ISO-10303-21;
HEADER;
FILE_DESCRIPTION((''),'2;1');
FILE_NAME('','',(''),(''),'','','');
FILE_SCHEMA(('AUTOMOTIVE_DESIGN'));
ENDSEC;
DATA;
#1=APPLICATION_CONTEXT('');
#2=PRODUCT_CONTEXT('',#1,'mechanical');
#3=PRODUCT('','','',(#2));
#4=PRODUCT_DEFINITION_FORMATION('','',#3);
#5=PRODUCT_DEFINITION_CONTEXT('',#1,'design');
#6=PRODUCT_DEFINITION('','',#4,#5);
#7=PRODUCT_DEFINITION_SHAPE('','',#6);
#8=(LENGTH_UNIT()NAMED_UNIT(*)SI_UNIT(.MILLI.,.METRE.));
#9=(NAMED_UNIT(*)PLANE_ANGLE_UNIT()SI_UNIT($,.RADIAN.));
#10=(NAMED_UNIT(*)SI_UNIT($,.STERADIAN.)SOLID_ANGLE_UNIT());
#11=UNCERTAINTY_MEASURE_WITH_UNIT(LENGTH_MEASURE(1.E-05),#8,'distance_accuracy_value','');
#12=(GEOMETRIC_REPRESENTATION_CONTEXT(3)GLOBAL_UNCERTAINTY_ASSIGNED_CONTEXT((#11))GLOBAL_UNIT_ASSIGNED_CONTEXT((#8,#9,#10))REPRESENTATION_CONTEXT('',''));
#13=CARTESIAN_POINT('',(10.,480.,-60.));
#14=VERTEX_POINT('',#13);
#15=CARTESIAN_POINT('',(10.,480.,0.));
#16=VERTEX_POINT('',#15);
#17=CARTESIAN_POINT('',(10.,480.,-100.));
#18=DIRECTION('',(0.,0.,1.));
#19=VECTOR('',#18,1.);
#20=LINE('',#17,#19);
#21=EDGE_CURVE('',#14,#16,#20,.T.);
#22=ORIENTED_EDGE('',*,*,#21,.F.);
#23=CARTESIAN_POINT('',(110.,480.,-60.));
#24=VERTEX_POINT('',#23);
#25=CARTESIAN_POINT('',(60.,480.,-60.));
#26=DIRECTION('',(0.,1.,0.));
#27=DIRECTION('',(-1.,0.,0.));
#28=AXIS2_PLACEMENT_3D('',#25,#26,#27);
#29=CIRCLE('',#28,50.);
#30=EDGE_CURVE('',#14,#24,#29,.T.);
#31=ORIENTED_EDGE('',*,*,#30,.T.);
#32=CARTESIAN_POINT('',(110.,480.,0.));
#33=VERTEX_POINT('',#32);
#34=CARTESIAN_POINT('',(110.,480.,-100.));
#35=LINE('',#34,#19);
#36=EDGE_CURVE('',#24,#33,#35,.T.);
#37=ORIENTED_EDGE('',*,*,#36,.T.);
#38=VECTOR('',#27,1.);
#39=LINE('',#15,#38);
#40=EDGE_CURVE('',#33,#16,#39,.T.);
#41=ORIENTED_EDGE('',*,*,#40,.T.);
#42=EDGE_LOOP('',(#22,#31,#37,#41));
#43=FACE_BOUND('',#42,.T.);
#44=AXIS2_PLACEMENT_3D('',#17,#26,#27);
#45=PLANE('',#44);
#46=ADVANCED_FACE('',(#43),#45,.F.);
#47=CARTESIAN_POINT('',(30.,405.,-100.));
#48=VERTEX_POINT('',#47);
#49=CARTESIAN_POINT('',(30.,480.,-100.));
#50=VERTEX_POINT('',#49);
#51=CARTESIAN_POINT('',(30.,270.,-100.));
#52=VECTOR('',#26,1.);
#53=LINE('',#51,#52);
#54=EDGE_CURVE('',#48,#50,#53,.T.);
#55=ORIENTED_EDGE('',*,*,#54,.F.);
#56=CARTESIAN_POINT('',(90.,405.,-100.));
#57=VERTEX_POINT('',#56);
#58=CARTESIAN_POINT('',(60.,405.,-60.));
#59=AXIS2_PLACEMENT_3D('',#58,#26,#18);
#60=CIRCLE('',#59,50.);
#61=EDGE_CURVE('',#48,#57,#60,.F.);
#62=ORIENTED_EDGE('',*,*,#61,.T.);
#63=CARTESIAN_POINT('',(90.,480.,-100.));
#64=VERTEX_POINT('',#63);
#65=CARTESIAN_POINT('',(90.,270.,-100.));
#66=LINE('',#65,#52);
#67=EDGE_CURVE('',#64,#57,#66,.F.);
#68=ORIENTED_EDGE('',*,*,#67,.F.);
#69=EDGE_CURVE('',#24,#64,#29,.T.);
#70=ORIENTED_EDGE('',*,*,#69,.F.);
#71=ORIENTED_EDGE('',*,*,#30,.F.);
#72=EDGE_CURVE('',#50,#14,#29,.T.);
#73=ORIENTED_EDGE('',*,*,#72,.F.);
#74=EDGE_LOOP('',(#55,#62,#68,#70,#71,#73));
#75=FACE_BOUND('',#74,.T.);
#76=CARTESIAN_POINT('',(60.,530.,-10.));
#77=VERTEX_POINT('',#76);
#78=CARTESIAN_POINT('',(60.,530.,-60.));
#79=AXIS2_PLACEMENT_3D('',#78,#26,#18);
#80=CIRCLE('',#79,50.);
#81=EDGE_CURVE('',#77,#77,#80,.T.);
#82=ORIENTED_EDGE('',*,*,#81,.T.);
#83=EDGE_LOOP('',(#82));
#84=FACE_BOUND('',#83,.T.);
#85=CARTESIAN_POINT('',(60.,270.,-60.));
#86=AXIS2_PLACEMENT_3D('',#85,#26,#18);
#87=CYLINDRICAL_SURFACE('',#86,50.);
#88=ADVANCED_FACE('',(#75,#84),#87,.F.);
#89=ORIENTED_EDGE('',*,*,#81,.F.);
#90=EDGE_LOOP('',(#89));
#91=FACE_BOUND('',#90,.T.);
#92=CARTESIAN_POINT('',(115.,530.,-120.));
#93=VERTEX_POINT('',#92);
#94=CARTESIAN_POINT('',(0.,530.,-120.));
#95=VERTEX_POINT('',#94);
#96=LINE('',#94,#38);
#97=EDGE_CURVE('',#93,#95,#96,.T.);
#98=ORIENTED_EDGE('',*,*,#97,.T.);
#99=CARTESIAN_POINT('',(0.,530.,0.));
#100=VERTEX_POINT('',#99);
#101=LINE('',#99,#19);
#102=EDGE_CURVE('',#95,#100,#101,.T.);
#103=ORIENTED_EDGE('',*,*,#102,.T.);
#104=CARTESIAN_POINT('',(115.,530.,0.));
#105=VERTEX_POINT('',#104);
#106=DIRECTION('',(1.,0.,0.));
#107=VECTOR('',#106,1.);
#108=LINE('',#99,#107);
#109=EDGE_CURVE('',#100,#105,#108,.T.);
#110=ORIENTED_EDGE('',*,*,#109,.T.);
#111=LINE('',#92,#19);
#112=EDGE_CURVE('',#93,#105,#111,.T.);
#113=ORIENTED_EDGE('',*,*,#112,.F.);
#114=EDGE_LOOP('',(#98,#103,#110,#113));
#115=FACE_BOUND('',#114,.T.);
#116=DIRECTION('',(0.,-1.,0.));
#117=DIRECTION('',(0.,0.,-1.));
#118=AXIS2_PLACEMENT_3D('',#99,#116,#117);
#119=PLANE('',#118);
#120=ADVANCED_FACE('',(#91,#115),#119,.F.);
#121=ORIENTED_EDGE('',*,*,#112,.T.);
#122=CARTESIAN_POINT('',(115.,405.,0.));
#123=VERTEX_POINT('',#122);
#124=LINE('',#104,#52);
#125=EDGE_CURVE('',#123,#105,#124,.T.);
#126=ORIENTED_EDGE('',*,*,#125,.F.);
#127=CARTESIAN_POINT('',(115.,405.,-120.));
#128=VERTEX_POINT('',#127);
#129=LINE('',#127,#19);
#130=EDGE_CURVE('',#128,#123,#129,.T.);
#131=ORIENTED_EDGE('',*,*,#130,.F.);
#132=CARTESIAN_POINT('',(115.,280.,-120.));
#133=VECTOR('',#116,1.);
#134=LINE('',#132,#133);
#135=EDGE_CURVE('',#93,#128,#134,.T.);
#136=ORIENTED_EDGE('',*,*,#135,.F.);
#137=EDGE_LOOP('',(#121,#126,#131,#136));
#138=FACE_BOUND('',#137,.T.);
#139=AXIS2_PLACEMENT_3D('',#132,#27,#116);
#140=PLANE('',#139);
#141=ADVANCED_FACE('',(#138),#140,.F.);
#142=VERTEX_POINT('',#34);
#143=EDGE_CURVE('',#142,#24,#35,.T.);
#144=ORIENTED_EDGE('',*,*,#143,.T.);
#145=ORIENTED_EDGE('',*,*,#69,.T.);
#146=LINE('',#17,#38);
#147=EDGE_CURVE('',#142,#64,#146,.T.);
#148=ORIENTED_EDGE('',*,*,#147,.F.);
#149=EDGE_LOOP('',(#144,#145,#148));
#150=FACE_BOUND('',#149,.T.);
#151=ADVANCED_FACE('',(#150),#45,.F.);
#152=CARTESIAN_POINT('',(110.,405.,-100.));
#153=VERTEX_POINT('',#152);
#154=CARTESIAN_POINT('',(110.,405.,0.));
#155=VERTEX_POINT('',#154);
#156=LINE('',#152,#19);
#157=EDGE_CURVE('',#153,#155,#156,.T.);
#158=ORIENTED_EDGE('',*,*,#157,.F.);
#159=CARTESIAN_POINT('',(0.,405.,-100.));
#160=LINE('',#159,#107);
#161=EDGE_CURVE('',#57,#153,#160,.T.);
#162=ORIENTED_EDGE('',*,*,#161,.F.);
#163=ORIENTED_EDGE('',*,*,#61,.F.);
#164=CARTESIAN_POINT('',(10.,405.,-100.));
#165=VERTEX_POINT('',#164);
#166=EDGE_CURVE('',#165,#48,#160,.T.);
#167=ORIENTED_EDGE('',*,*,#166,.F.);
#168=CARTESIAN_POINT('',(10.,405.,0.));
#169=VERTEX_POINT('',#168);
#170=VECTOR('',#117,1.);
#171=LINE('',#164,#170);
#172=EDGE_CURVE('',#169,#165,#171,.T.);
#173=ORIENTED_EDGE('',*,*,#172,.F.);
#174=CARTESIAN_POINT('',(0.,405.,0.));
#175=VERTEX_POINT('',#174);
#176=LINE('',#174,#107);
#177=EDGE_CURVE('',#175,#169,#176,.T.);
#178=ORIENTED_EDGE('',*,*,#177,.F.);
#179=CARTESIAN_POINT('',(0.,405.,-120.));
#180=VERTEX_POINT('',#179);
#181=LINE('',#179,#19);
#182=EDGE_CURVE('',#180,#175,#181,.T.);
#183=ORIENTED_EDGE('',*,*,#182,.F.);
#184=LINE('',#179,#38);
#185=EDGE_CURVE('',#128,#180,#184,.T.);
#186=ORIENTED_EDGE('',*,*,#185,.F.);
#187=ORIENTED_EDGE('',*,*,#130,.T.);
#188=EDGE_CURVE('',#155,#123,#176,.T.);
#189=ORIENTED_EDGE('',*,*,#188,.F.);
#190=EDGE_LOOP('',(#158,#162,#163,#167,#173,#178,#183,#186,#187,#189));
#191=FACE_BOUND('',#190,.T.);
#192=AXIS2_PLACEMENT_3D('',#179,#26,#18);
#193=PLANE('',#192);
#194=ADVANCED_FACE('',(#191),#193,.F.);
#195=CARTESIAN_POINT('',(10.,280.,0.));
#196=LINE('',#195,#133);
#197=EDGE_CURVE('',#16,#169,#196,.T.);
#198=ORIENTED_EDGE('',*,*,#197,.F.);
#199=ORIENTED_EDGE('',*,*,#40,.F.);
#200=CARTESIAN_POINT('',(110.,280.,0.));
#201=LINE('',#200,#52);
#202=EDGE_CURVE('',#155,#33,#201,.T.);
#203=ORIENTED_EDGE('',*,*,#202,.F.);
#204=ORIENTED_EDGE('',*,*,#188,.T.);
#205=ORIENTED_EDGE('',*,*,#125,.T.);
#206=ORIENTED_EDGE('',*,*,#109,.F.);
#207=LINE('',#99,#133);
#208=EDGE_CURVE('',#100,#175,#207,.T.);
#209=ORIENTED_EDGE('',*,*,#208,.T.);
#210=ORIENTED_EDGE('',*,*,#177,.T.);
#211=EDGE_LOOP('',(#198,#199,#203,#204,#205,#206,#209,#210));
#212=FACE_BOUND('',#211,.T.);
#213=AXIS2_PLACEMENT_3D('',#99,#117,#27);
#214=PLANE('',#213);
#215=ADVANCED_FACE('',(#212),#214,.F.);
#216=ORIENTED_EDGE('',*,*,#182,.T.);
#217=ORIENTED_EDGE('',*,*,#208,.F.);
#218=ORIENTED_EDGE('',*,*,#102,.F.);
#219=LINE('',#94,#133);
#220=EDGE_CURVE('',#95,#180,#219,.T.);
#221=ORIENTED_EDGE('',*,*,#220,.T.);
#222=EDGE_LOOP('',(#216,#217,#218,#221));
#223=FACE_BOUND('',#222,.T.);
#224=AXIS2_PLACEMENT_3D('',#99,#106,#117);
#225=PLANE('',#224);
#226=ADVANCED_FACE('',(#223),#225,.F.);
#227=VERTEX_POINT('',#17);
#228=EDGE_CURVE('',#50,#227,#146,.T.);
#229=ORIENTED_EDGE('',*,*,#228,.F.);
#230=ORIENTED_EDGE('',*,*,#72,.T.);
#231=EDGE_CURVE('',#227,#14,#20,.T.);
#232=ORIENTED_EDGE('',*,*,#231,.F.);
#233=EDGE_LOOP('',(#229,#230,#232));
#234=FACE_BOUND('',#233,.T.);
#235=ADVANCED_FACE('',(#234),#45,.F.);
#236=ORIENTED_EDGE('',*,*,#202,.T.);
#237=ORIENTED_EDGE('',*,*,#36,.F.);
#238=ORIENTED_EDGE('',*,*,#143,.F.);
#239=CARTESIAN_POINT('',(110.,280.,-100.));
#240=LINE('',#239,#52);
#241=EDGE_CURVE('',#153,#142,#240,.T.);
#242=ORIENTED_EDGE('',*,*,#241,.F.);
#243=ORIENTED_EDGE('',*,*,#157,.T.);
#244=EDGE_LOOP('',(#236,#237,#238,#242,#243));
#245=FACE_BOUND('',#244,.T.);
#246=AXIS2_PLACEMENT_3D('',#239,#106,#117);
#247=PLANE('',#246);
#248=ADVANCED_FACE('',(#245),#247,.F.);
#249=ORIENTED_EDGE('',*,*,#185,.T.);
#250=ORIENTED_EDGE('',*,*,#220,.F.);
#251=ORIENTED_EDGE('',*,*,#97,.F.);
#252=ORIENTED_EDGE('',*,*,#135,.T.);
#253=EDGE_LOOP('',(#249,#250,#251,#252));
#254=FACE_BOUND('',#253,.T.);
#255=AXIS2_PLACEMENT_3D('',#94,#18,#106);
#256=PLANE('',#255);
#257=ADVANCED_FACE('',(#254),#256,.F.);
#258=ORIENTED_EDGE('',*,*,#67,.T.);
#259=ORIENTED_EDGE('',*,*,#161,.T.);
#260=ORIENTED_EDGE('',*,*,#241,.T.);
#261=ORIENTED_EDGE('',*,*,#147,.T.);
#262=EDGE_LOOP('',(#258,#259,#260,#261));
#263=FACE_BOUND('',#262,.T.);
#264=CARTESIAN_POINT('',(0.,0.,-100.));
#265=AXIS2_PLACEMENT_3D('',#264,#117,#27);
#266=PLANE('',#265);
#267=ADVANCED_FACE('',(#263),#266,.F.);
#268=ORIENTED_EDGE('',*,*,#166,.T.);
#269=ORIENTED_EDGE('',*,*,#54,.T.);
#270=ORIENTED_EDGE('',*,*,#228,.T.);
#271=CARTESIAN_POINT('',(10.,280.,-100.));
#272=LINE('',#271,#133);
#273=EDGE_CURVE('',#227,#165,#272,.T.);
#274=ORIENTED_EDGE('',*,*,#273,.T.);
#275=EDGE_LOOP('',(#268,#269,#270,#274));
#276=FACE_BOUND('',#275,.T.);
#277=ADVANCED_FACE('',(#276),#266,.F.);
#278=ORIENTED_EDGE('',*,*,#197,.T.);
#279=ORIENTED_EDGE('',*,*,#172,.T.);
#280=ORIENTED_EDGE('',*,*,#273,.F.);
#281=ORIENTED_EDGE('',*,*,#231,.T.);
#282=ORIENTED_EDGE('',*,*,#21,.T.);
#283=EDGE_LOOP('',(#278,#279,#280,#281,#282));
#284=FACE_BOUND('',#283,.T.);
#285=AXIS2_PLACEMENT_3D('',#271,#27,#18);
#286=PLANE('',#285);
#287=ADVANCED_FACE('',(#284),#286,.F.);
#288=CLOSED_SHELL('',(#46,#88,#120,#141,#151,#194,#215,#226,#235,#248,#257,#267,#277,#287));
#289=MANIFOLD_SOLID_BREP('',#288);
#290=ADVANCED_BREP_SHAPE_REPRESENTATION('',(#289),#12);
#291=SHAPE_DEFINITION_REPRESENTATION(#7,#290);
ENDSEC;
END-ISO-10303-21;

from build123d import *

# Parameters (mm, degrees)
SKETCH1_W                      = 670
SKETCH1_H                      = 120
BOSS_EXTRUDE1_DEPTH            = 530
SKETCH2_W                      = 100
SKETCH2_H                      = 200
SKETCH2_W_2                    = 650
SKETCH2_H_2                    = 250
CUT_EXTRUDE1_DEPTH             = 100
SKETCH3_R                      = 50
CUT_EXTRUDE2_DEPTH             = 260
F_12_0_12_DIAMETER_HOLE2_D     = 12
F_12_0_12_DIAMETER_HOLE2_DEPTH = 30
F_12_0_12_DIAMETER_HOLE2_TIP   = 3.605163714
SKETCH8_W                      = 650
SKETCH8_H                      = 50
BOSS_EXTRUDE2_DEPTH            = 5
SKETCH9_W                      = 10
SKETCH9_H                      = 250
CUT_EXTRUDE3_DEPTH             = 717
CUT_EXTRUDE4_DEPTH             = 5
SKETCH11_W                     = 10
SKETCH11_H                     = 100
BOSS_EXTRUDE3_DEPTH            = 78
BOSS_EXTRUDE3_2_DEPTH          = 78
BOSS_EXTRUDE3_3_DEPTH          = 78
SKETCH12_W                     = 20
SKETCH12_H                     = 30
CUT_EXTRUDE5_DEPTH             = 80
SKETCH15_W                     = 30
SKETCH15_H                     = 23.536156656
SKETCH15_H_2                   = 28.986603691
CUT_EXTRUDE7_DEPTH             = 35
SHELL1_T                       = -3
SKETCH16_W                     = 14
SKETCH16_H                     = 14
CUT_EXTRUDE8_DEPTH             = 35
SKETCH17_W                     = 5.729882812
SKETCH17_H                     = 17.428393554
SKETCH17_W_2                   = 13.369726562
SKETCH17_H_2                   = 3.342431641
BOSS_EXTRUDE4_DEPTH            = 5
SKETCH18_W                     = 670
SKETCH18_H                     = 280
CUT_EXTRUDE10_DEPTH            = 159
CUT_EXTRUDE11_DEPTH            = 863.670273187
CUT_EXTRUDE11_DEPTH_BACK       = 863.670273187
SKETCH19_W                     = 555
SKETCH19_H                     = 250
CUT_EXTRUDE12_DEPTH            = 556.450267801
CUT_EXTRUDE12_DEPTH_BACK       = 556.450267801
SKETCH20_W                     = 115
SKETCH20_H                     = 125


with BuildPart() as part:
    # Sketch1 → Boss-Extrude1 (new body)
    with BuildSketch(Plane(origin=(0, 0, 0), x_dir=(1, 0, 0), z_dir=(0, 1, 0))):
        with Locations((335, 60)):
            Rectangle(SKETCH1_W, SKETCH1_H)
    extrude(amount=BOSS_EXTRUDE1_DEPTH)

    # Sketch2 → Cut-Extrude1 (cut)
    with BuildSketch(Plane.XY):
        with Locations((60, 380)):
            Rectangle(SKETCH2_W, SKETCH2_H)
        with Locations((170, 380)):
            Rectangle(SKETCH2_W, SKETCH2_H)
        with Locations((280, 380)):
            Rectangle(SKETCH2_W, SKETCH2_H)
        with Locations((390, 380)):
            Rectangle(SKETCH2_W, SKETCH2_H)
        with Locations((500, 380)):
            Rectangle(SKETCH2_W, SKETCH2_H)
        with Locations((610, 380)):
            Rectangle(SKETCH2_W, SKETCH2_H)
        with Locations((335, 135)):
            Rectangle(SKETCH2_W_2, SKETCH2_H_2)
    extrude(amount=-CUT_EXTRUDE1_DEPTH, mode=Mode.SUBTRACT)

    # Sketch3 → Cut-Extrude2 (cut)
    with BuildSketch(Plane(origin=(0, 530, 0), x_dir=(1, 0, 0), z_dir=(0, 1, 0))):
        with Locations(Location((60, 60, 0), (0, 0, 270))):
            Circle(SKETCH3_R)
        with Locations(Location((170, 60, 0), (0, 0, 270))):
            Circle(SKETCH3_R)
        with Locations(Location((280, 60, 0), (0, 0, 270))):
            Circle(SKETCH3_R)
        with Locations(Location((390, 60, 0), (0, 0, 270))):
            Circle(SKETCH3_R)
        with Locations(Location((500, 60, 0), (0, 0, 270))):
            Circle(SKETCH3_R)
        with Locations(Location((610, 60, 0), (0, 0, 270))):
            Circle(SKETCH3_R)
    extrude(amount=-CUT_EXTRUDE2_DEPTH, mode=Mode.SUBTRACT)

    # Ø12.0 (12) Diameter Hole2
    with Locations(Plane(origin=(59.704642413, 270, -102.411697903), x_dir=(0, 0, 1), z_dir=(0, 1, 0))):
        with Locations((0, 0), (-0.195888006, 111.8520513), (0.014838595, 221.167624818), (-0.341843303, 331.364008353), (0.657723149, 441.008646429), (1.288998006, 549.811854685)):
            Hole(F_12_0_12_DIAMETER_HOLE2_D / 2, depth=F_12_0_12_DIAMETER_HOLE2_DEPTH)
            with Locations((0, 0, -(F_12_0_12_DIAMETER_HOLE2_DEPTH + F_12_0_12_DIAMETER_HOLE2_TIP / 2))):  # 118° drill point
                Cone(0, F_12_0_12_DIAMETER_HOLE2_D / 2, F_12_0_12_DIAMETER_HOLE2_TIP, mode=Mode.SUBTRACT)

    # Sketch8 → Boss-Extrude2 (add)
    with BuildSketch(Plane.XY):
        with Locations((335, 305)):
            Rectangle(SKETCH8_W, SKETCH8_H)
    extrude(amount=-BOSS_EXTRUDE2_DEPTH)

    # Sketch9 → Cut-Extrude3 (cut)
    with BuildSketch(Plane(origin=(670, 0, 0), x_dir=(0, 0, -1), z_dir=(1, 0, 0))):
        with Locations((15, 135)):
            Rectangle(SKETCH9_W, SKETCH9_H)
    extrude(amount=-CUT_EXTRUDE3_DEPTH, mode=Mode.SUBTRACT)

    # Sketch10 → Cut-Extrude4 (cut)
    with BuildSketch(Plane(origin=(0, 10, 0), x_dir=(1, 0, 0), z_dir=(0, 1, 0))):
        Polygon((365, 61.943560596), (350, 87.924322709), (320, 87.924322709), (305, 61.943560596), (320, 35.962798482), (350, 35.962798482), align=None)
    extrude(amount=-CUT_EXTRUDE4_DEPTH, mode=Mode.SUBTRACT)

    # Sketch12 → Cut-Extrude5 (cut)
    with BuildSketch(Plane.XY.offset(-100)):
        with Locations((85.198613037, 245)):
            Rectangle(SKETCH12_W, SKETCH12_H)
        with Locations((195.198613037, 245)):
            Rectangle(SKETCH12_W, SKETCH12_H)
        with Locations((305.198613037, 245)):
            Rectangle(SKETCH12_W, SKETCH12_H)
        with Locations((415.198613037, 245)):
            Rectangle(SKETCH12_W, SKETCH12_H)
        with Locations((525.198613037, 245)):
            Rectangle(SKETCH12_W, SKETCH12_H)
        with Locations((635.198613037, 245)):
            Rectangle(SKETCH12_W, SKETCH12_H)
    extrude(amount=-CUT_EXTRUDE5_DEPTH, mode=Mode.SUBTRACT)

    # Sketch17 → Boss-Extrude4 (add)
    # profile 1 of 9: a face of its own
    with BuildSketch(Plane.XY):
        with BuildLine():
            Line((527.508830928, 289.835452458), (527.508830928, 307.263846012))
            Line((527.508830928, 307.263846012), (534.861434459, 307.263846012))
            add(Edge.make_bspline(
                [(534.861434459, 307.263846012), (535.181337774, 307.258256848), (535.803061116, 307.24739446), (536.703508491, 307.139069344), (537.544992916, 306.975202489), (538.325061607, 306.737496792), (539.040841948, 306.426020155), (539.698044515, 306.051894954), (540.290333057, 305.605079277), (540.822348212, 305.090232636), (541.284521701, 304.502523111), (541.692171296, 303.852565801), (542.030284458, 303.129762281), (542.309377095, 302.341316546), (542.5243908, 301.484161689), (542.679660381, 300.560045938), (542.773357357, 299.567500804), (542.783368073, 298.883107022), (542.788518428, 298.530997273)],
                knots=[0, 0, 0, 0, 1.135059408, 2.20595691, 3.214417064, 4.174978569, 5.094187092, 5.980001006, 6.853065862, 7.720814779, 8.600404634, 9.50058483, 10.438414914, 11.426825708, 12.465239141, 13.571113463, 14.750376389, 16, 16, 16, 16], degree=3))
            add(Edge.make_bspline(
                [(542.788518428, 298.530997273), (542.781740751, 298.180151665), (542.768592871, 297.499553336), (542.676885992, 296.511518461), (542.516733301, 295.591080531), (542.296748778, 294.736450427), (542.003051046, 293.953120444), (541.654236167, 293.233205539), (541.233025793, 292.585291498), (540.753136904, 292.000029304), (540.204772188, 291.484681411), (539.587651059, 291.044279297), (538.910779309, 290.668464036), (538.169670382, 290.361903209), (537.364073889, 290.124869172), (536.495133477, 289.954199984), (535.562644449, 289.853487388), (534.920131033, 289.841584621), (534.58911581, 289.835452458)],
                knots=[0, 0, 0, 0, 1.228418252, 2.382983832, 3.470276728, 4.496757894, 5.468023682, 6.394867725, 7.292157164, 8.167372942, 9.039072913, 9.918728341, 10.815246345, 11.744296628, 12.720973084, 13.750736166, 14.841206188, 16, 16, 16, 16], degree=3))
            Line((534.58911581, 289.835452458), (527.508830928, 289.835452458))
        make_face()
        with BuildLine():
            Line((533.238713741, 291.745413395), (534.048208904, 291.745413395))
            add(Edge.make_bspline(
                [(534.048208904, 291.745413395), (534.172894012, 291.749291978), (534.413033311, 291.756761998), (534.758676231, 291.825976613), (535.075745017, 291.938271137), (535.365749176, 292.094802589), (535.623404602, 292.300450923), (535.848862806, 292.551404902), (536.04776914, 292.844737637), (536.217685755, 293.190205032), (536.364284647, 293.596533622), (536.481764702, 294.076367921), (536.592118304, 294.630928744), (536.673672739, 295.265507643), (536.740044562, 295.978448886), (536.788346679, 296.768428292), (536.812018936, 297.636801208), (536.817188964, 298.241258393), (536.819890499, 298.55711002)],
                knots=[0, 0, 0, 0, 0.728710832, 1.403472396, 2.052289494, 2.690292559, 3.321919393, 3.970736491, 4.656696891, 5.388631723, 6.217040872, 7.17856157, 8.275589967, 9.523440737, 10.918935818, 12.463926104, 14.152268318, 16, 16, 16, 16], degree=3))
            add(Edge.make_bspline(
                [(536.819890499, 298.55711002), (536.8171426, 298.871715251), (536.811863063, 299.476166083), (536.7886758, 300.343334385), (536.739579947, 301.133216935), (536.674703848, 301.843934916), (536.589660404, 302.476324031), (536.488366458, 303.031681737), (536.362441588, 303.507627045), (536.222158727, 303.914921549), (536.050140993, 304.256514038), (535.858357073, 304.554097881), (535.62547107, 304.79746827), (535.36991257, 305.004888479), (535.079348843, 305.160875844), (534.761320266, 305.273944358), (534.414185903, 305.34216807), (534.172870641, 305.349893944), (534.048208904, 305.353885075)],
                knots=[0, 0, 0, 0, 1.842836665, 3.540640921, 5.080358154, 6.47765669, 7.719902824, 8.816971715, 9.781579111, 10.601733135, 11.334613876, 12.017393917, 12.666641099, 13.29908421, 13.937911793, 14.587567384, 15.270347425, 16, 16, 16, 16], degree=3))
            Line((534.048208904, 305.353885075), (533.238713741, 305.353885075))
            Line((533.238713741, 305.353885075), (533.238713741, 291.745413395))
        make_face(mode=Mode.SUBTRACT)
    # profile 2 of 9: a face of its own
    with BuildSketch(Plane.XY):
        with Locations((547.563420772, 298.549649235)):
            Rectangle(SKETCH17_W, SKETCH17_H)
    # profile 3 of 9: a face of its own
    with BuildSketch(Plane.XY):
        Polygon((564.514324092, 307.263846012), (564.514324092, 305.115139958), (558.545696163, 305.115139958), (558.545696163, 299.862747379), (563.559343624, 299.862747379), (563.559343624, 297.714041325), (558.545696163, 297.714041325), (558.545696163, 289.835452458), (552.81581335, 289.835452458), (552.81581335, 307.263846012), align=None)
    # profile 4 of 9: a face of its own
    with BuildSketch(Plane.XY):
        Polygon((577.645305538, 307.263846012), (577.645305538, 305.115139958), (571.676677608, 305.115139958), (571.676677608, 299.862747379), (576.690325069, 299.862747379), (576.690325069, 297.714041325), (571.676677608, 297.714041325), (571.676677608, 289.835452458), (565.946794795, 289.835452458), (565.946794795, 307.263846012), align=None)
    # profile 5 of 9: a face of its own
    with BuildSketch(Plane.XY):
        with Locations((584.330168819, 287.448001286)):
            Rectangle(SKETCH17_W_2, SKETCH17_H_2)
    # profile 6 of 9: a face of its own
    with BuildSketch(Plane.XY):
        with BuildLine():
            Line((605.578484249, 307.263846012), (605.578484249, 295.602639195))
            add(Edge.make_bspline(
                [(605.578484249, 295.602639195), (605.574209777, 295.35989389), (605.565919345, 294.889083964), (605.480877158, 294.20653885), (605.349958188, 293.569747554), (605.15926554, 292.978838165), (604.911867049, 292.436847071), (604.616163877, 291.936663973), (604.260702644, 291.487723021), (603.847299908, 291.08966617), (603.386881991, 290.731670113), (602.867295001, 290.425440037), (602.293741958, 290.168488385), (601.66690529, 289.960990771), (600.988052682, 289.797299786), (600.254912883, 289.679078851), (599.467035781, 289.60781007), (598.923618241, 289.60048219), (598.643684673, 289.59670734)],
                knots=[0, 0, 0, 0, 1.108173197, 2.149326602, 3.136215123, 4.073726706, 4.978516626, 5.852185058, 6.72141202, 7.584905625, 8.467554395, 9.379216169, 10.332422268, 11.332766067, 12.390653242, 13.518530507, 14.721707419, 16, 16, 16, 16], degree=3))
            add(Edge.make_bspline(
                [(598.643684673, 289.59670734), (598.373688491, 289.600411437), (597.851346557, 289.607577482), (597.093280473, 289.679448684), (596.387523889, 289.797736542), (595.733050135, 289.960122315), (595.130189942, 290.169220301), (594.579048171, 290.42623041), (594.078350789, 290.732835498), (593.633858028, 291.090104794), (593.234289459, 291.486851767), (592.899913678, 291.940746827), (592.609043638, 292.435866034), (592.375223767, 292.980322997), (592.191754821, 293.570441519), (592.063541006, 294.20666921), (591.983676196, 294.889343196), (591.974661767, 295.359932437), (591.970012569, 295.602639195)],
                knots=[0, 0, 0, 0, 1.258901956, 2.435505865, 3.547148904, 4.59359074, 5.576649289, 6.5183682, 7.424469602, 8.307507093, 9.172751023, 10.042627298, 10.928839176, 11.845659241, 12.799442865, 13.80597989, 14.868432463, 16, 16, 16, 16], degree=3))
            Line((591.970012569, 295.602639195), (591.970012569, 307.263846012))
            Line((591.970012569, 307.263846012), (597.699895381, 307.263846012))
            Line((597.699895381, 307.263846012), (597.699895381, 295.457153889))
            add(Edge.make_bspline(
                [(597.699895381, 295.457153889), (597.700816195, 295.287996189), (597.702584578, 294.963135903), (597.729908723, 294.499051493), (597.768241004, 294.079064133), (597.828226169, 293.705517832), (597.90066041, 293.377063412), (597.989882091, 293.09281535), (598.094998068, 292.852496478), (598.225239063, 292.654232043), (598.380826623, 292.495135011), (598.55368342, 292.353231761), (598.757556996, 292.238543846), (598.987648905, 292.146224908), (599.243380948, 292.070549638), (599.526120553, 292.020376099), (599.83553351, 291.990763905), (600.049971942, 291.986424568), (600.161954402, 291.984158512)],
                knots=[0, 0, 0, 0, 1.622370975, 3.115695595, 4.458049099, 5.666011203, 6.742434742, 7.681714947, 8.519814998, 9.250928664, 9.942747364, 10.646898194, 11.389596108, 12.175933929, 13.021386247, 13.943159715, 14.925891993, 16, 16, 16, 16], degree=3))
            add(Edge.make_bspline(
                [(600.161954402, 291.984158512), (600.283927219, 291.987190593), (600.521124756, 291.993087005), (600.86597014, 292.03390861), (601.187714881, 292.103380086), (601.484890424, 292.205377303), (601.758665297, 292.332852529), (602.012761516, 292.484567923), (602.236391413, 292.674631152), (602.439076761, 292.888441291), (602.620738276, 293.128529789), (602.771757722, 293.399928575), (602.905501548, 293.697121508), (603.005823683, 294.025060118), (603.089837826, 294.379999499), (603.146989706, 294.763086929), (603.186210275, 295.174074524), (603.189394751, 295.457053988), (603.191033077, 295.602639195)],
                knots=[0, 0, 0, 0, 1.083870311, 2.107775948, 3.08105344, 4.003637981, 4.893545291, 5.761570557, 6.624657808, 7.49233129, 8.376387281, 9.291996285, 10.246843261, 11.267344133, 12.334180325, 13.486053461, 14.706643157, 16, 16, 16, 16], degree=3))
            Line((603.191033077, 295.602639195), (603.191033077, 307.263846012))
            Line((603.191033077, 307.263846012), (605.578484249, 307.263846012))
        make_face()
    # profile 7 of 9: a face of its own
    with BuildSketch(Plane.XY):
        with BuildLine():
            Line((619.731593227, 302.015183827), (616.739818477, 301.526502415))
            add(Edge.make_bspline(
                [(616.739818477, 301.526502415), (616.748849224, 301.670726223), (616.765660669, 301.939210177), (616.78429066, 302.312269209), (616.796668381, 302.625642376), (616.798628236, 302.814722915), (616.799504756, 302.899286839)],
                knots=[0, 0, 0, 0, 1.261802504, 2.348944521, 3.261585937, 4, 4, 4, 4], degree=3))
            add(Edge.make_bspline(
                [(616.799504756, 302.899286839), (616.798306068, 303.007660677), (616.795968139, 303.219033721), (616.750451916, 303.523894877), (616.694806916, 303.811547356), (616.604352699, 304.076787391), (616.488181329, 304.320314265), (616.348943917, 304.543955606), (616.184187178, 304.745078709), (615.995833421, 304.928129987), (615.778009957, 305.083200131), (615.536269472, 305.218702836), (615.269765326, 305.333844758), (614.978065514, 305.431346685), (614.660683072, 305.504624438), (614.319025281, 305.556776695), (613.952471696, 305.585673441), (613.699597795, 305.590260771), (613.568984889, 305.592630192)],
                knots=[0, 0, 0, 0, 1.079280541, 2.105035848, 3.067950317, 3.99715044, 4.889989748, 5.753421302, 6.617030865, 7.476358039, 8.364190572, 9.274590025, 10.235106994, 11.254473582, 12.337095886, 13.478601727, 14.697662529, 16, 16, 16, 16], degree=3))
            add(Edge.make_bspline(
                [(613.568984889, 305.592630192), (613.391954632, 305.58912286), (613.059112606, 305.582528579), (612.595688488, 305.495339748), (612.198743126, 305.361419257), (611.87165349, 305.163811893), (611.613188167, 304.909795747), (611.433841092, 304.593316589), (611.323009072, 304.224665915), (611.313400221, 303.959558324), (611.308367061, 303.820693775)],
                knots=[0, 0, 0, 0, 1.294917039, 2.43462794, 3.440028966, 4.347597256, 5.210608309, 6.06356377, 6.985685997, 8, 8, 8, 8], degree=3))
            add(Edge.make_bspline(
                [(611.308367061, 303.820693775), (611.317562032, 303.705133219), (611.336106628, 303.472068433), (611.47315858, 303.132808312), (611.695999602, 302.811560885), (612.009295906, 302.510664216), (612.404107796, 302.221967273), (612.884407504, 301.948533431), (613.450813789, 301.688189695), (613.862519081, 301.536023727), (614.080048656, 301.455624958)],
                knots=[0, 0, 0, 0, 0.716839541, 1.445735977, 2.240793036, 3.131329288, 4.131129903, 5.273471266, 6.559404876, 8, 8, 8, 8], degree=3))
            add(Edge.make_bspline(
                [(614.080048656, 301.455624958), (614.335934702, 301.364918412), (614.834564244, 301.188164095), (615.547657928, 300.88707802), (616.213068388, 300.5749594), (616.829579094, 300.246613346), (617.397833174, 299.90520698), (617.914851624, 299.544556457), (618.386199073, 299.173962102), (618.807001026, 298.783874588), (619.177995113, 298.378100064), (619.4958685, 297.952745357), (619.771807525, 297.51723103), (619.991113975, 297.061458502), (620.169645242, 296.594624218), (620.292698657, 296.11024444), (620.364288243, 295.609761088), (620.37516617, 295.270864226), (620.380681514, 295.099036213)],
                knots=[0, 0, 0, 0, 1.359488612, 2.649152603, 3.874964776, 5.039588756, 6.146130126, 7.193090393, 8.194917302, 9.146793662, 10.063845301, 10.944476293, 11.803344532, 12.641736646, 13.473440096, 14.302714936, 15.139439897, 16, 16, 16, 16], degree=3))
            add(Edge.make_bspline(
                [(620.380681514, 295.099036213), (620.374476075, 294.902306495), (620.362285176, 294.515820995), (620.280160209, 293.948630617), (620.138011896, 293.409496554), (619.938489338, 292.895972278), (619.681049879, 292.411946655), (619.366518754, 291.954381076), (618.996510229, 291.525099427), (618.5710008, 291.128381035), (618.102222518, 290.765302239), (617.587803957, 290.450854345), (617.034458515, 290.187092261), (616.444107988, 289.968993032), (615.81453624, 289.801373099), (615.145337453, 289.685291013), (614.438790193, 289.606619894), (613.954683001, 289.600062276), (613.70700941, 289.59670734)],
                knots=[0, 0, 0, 0, 0.972121714, 1.909782367, 2.824924061, 3.721832975, 4.62620438, 5.527836938, 6.46026819, 7.421000932, 8.398101015, 9.385579713, 10.394244048, 11.422703992, 12.491421888, 13.608778581, 14.776629625, 16, 16, 16, 16], degree=3))
            add(Edge.make_bspline(
                [(613.70700941, 289.59670734), (613.445745367, 289.599650312), (612.939893069, 289.605348413), (612.207608113, 289.66709241), (611.525297432, 289.760984454), (610.893395078, 289.899706116), (610.309273131, 290.072394336), (609.776099392, 290.288320955), (609.295310255, 290.547303481), (608.863217672, 290.843007892), (608.478306623, 291.175775461), (608.148120946, 291.551766865), (607.86942369, 291.967163224), (607.639947144, 292.421521488), (607.466477665, 292.917583541), (607.339164663, 293.449829748), (607.264537999, 294.021332449), (607.254747521, 294.414908557), (607.249700069, 294.617815586)],
                knots=[0, 0, 0, 0, 1.342201143, 2.598733168, 3.773451092, 4.878874364, 5.91991243, 6.900006476, 7.829142054, 8.72062616, 9.585588575, 10.436728592, 11.283829734, 12.149664931, 13.044964919, 13.977937424, 14.957531465, 16, 16, 16, 16], degree=3))
            add(Edge.make_bspline(
                [(607.249700069, 294.617815586), (607.250803815, 294.692425759), (607.253213998, 294.855347393), (607.260452266, 295.122772538), (607.275636683, 295.433682216), (607.29037174, 295.656130545), (607.298195171, 295.774237248)],
                knots=[0, 0, 0, 0, 0.773500207, 1.689044709, 2.77302154, 4, 4, 4, 4], degree=3))
            Line((607.298195171, 295.774237248), (610.36457777, 296.337526509))
            add(Edge.make_bspline(
                [(610.36457777, 296.337526509), (610.326952988, 296.136337493), (610.255606535, 295.754830366), (610.178678473, 295.21219969), (610.124206629, 294.733311493), (610.11767002, 294.435147371), (610.114641475, 294.297001835)],
                knots=[0, 0, 0, 0, 1.192988372, 2.262218769, 3.194850416, 4, 4, 4, 4], degree=3))
            add(Edge.make_bspline(
                [(610.114641475, 294.297001835), (610.116191817, 294.183708768), (610.119182568, 293.965156219), (610.159053378, 293.648552813), (610.215988606, 293.352999663), (610.302906772, 293.079707227), (610.411206928, 292.826307836), (610.544682453, 292.59538211), (610.704385489, 292.386485019), (610.887496571, 292.200099922), (611.094689168, 292.033628705), (611.327456494, 291.892756696), (611.58347653, 291.771733922), (611.864681562, 291.677479524), (612.167961721, 291.596080628), (612.497219749, 291.548235723), (612.849461228, 291.512043782), (613.092629543, 291.508500084), (613.218327999, 291.506668278)],
                knots=[0, 0, 0, 0, 1.135776692, 2.191015738, 3.19649269, 4.151244236, 5.061952528, 5.956281389, 6.819534407, 7.692823504, 8.571441916, 9.478554956, 10.416037156, 11.406231466, 12.450054172, 13.561596327, 14.739541482, 16, 16, 16, 16], degree=3))
            add(Edge.make_bspline(
                [(613.218327999, 291.506668278), (613.423996012, 291.510791273), (613.810619321, 291.518541853), (614.349272542, 291.616708407), (614.810575885, 291.768742445), (615.189785268, 291.991387532), (615.490778961, 292.278756613), (615.698005174, 292.637320004), (615.824813318, 293.05638326), (615.837728413, 293.355975238), (615.844524288, 293.513619419)],
                knots=[0, 0, 0, 0, 1.308765556, 2.460272085, 3.475015317, 4.388076298, 5.239673503, 6.095681635, 6.997954785, 8, 8, 8, 8], degree=3))
            add(Edge.make_bspline(
                [(615.844524288, 293.513619419), (615.833808824, 293.638242951), (615.811807312, 293.894126055), (615.644884004, 294.264515838), (615.382382362, 294.620631473), (615.016807277, 294.962984909), (614.551376589, 295.293471235), (613.986957743, 295.616730224), (613.322148235, 295.933112033), (612.83677959, 296.119639164), (612.580430889, 296.21815395)],
                knots=[0, 0, 0, 0, 0.667930748, 1.371427933, 2.146459016, 3.034714139, 4.04893387, 5.207327294, 6.525042705, 8, 8, 8, 8], degree=3))
            add(Edge.make_bspline(
                [(612.580430889, 296.21815395), (612.374354345, 296.29679374), (611.970646869, 296.450850434), (611.394079385, 296.713586304), (610.853066711, 296.987016804), (610.357486361, 297.288235735), (609.896382561, 297.599610528), (609.477036946, 297.932256792), (609.09841673, 298.284556341), (608.758710772, 298.653375077), (608.457302107, 299.038989264), (608.199448649, 299.444659231), (607.977533299, 299.866789834), (607.798609588, 300.308107488), (607.65975715, 300.767821241), (607.559616231, 301.244439392), (607.497905054, 301.739995674), (607.491630423, 302.075933546), (607.488445186, 302.246468159)],
                knots=[0, 0, 0, 0, 1.249558333, 2.447906163, 3.58867143, 4.682264114, 5.731748367, 6.739728761, 7.711906036, 8.659384707, 9.578321416, 10.481344598, 11.379544271, 12.277135726, 13.175418307, 14.097160112, 15.034047388, 16, 16, 16, 16], degree=3))
            add(Edge.make_bspline(
                [(607.488445186, 302.246468159), (607.49282555, 302.439538736), (607.501402184, 302.817565692), (607.587451154, 303.36980586), (607.719291893, 303.894921371), (607.910558542, 304.389343064), (608.156192894, 304.852853762), (608.453187669, 305.288766511), (608.804241719, 305.697593471), (609.213503754, 306.066686531), (609.657214714, 306.407618241), (610.14376173, 306.697651931), (610.658716537, 306.950861947), (611.210636666, 307.148827868), (611.791820619, 307.313252612), (612.408080529, 307.421140415), (613.056315391, 307.490701612), (613.499160755, 307.498567824), (613.725661373, 307.502591129)],
                knots=[0, 0, 0, 0, 1.01033566, 1.978209831, 2.919499157, 3.840961976, 4.746855014, 5.660740114, 6.597989116, 7.56120833, 8.541877795, 9.523498025, 10.522416858, 11.542172371, 12.589598349, 13.681636521, 14.814234488, 16, 16, 16, 16], degree=3))
            add(Edge.make_bspline(
                [(613.725661373, 307.502591129), (613.968269855, 307.498219033), (614.438190994, 307.489750488), (615.120391152, 307.426787419), (615.755073228, 307.319142339), (616.345153155, 307.171557286), (616.887304575, 306.977590666), (617.384933999, 306.742393454), (617.834452216, 306.46201507), (618.236961315, 306.139451502), (618.593086714, 305.773322851), (618.897467704, 305.361641069), (619.158701245, 304.909408454), (619.366684143, 304.412232174), (619.529870326, 303.873247147), (619.649133834, 303.29158184), (619.720420497, 302.667301443), (619.72779778, 302.236712324), (619.731593227, 302.015183827)],
                knots=[0, 0, 0, 0, 1.248314423, 2.417925914, 3.521398822, 4.558068205, 5.543720209, 6.479599284, 7.385061127, 8.263440163, 9.127722873, 10.00561236, 10.891325273, 11.808802823, 12.772251995, 13.784947978, 14.860405143, 16, 16, 16, 16], degree=3))
        make_face()
    # profile 8 of 9: a face of its own
    with BuildSketch(Plane.XY):
        Polygon((633.989153194, 307.263846012), (633.989153194, 305.115139958), (628.020525264, 305.115139958), (628.020525264, 300.340237614), (633.034172725, 300.340237614), (633.034172725, 298.191531559), (628.020525264, 298.191531559), (628.020525264, 291.984158512), (634.944133663, 291.984158512), (634.944133663, 289.835452458), (622.290642452, 289.835452458), (622.290642452, 307.263846012), align=None)
    # profile 9 of 9: a face of its own
    with BuildSketch(Plane.XY):
        with BuildLine():
            Line((636.376604366, 289.835452458), (636.376604366, 307.263846012))
            Line((636.376604366, 307.263846012), (643.990335369, 307.263846012))
            add(Edge.make_bspline(
                [(643.990335369, 307.263846012), (644.237946498, 307.261150834), (644.721600887, 307.25588639), (645.426490561, 307.189203683), (646.094808274, 307.090496236), (646.724915796, 306.949857504), (647.317873659, 306.767252686), (647.871119087, 306.542146), (648.390701058, 306.282329135), (648.864494846, 305.976472528), (649.295093616, 305.642889252), (649.669668547, 305.279483604), (649.990389523, 304.894749072), (650.250664962, 304.483256345), (650.454275633, 304.048690948), (650.59581384, 303.587791605), (650.684089268, 303.104102537), (650.695510601, 302.772834174), (650.701311397, 302.604585835)],
                knots=[0, 0, 0, 0, 1.303269877, 2.545653735, 3.724355284, 4.8584284, 5.941462088, 6.987020715, 8.000098032, 8.995332524, 9.951400474, 10.863507538, 11.737823931, 12.582415999, 13.420128714, 14.25671499, 15.114600608, 16, 16, 16, 16], degree=3))
            add(Edge.make_bspline(
                [(650.701311397, 302.604585835), (650.698282873, 302.472674957), (650.692382063, 302.215658276), (650.651041486, 301.838684287), (650.580643818, 301.480313933), (650.481036683, 301.139915259), (650.347814833, 300.820175594), (650.191279492, 300.517863507), (650.009772227, 300.230553342), (649.788675198, 299.970497982), (649.548268341, 299.722842359), (649.274558803, 299.497116911), (648.974487035, 299.288655528), (648.642526299, 299.104010513), (648.287619671, 298.928055749), (647.899038177, 298.784921972), (647.486819978, 298.644749395), (647.19793098, 298.577036306), (647.049257183, 298.54218845)],
                knots=[0, 0, 0, 0, 1.057156483, 2.059775939, 3.035078039, 3.981068617, 4.897189472, 5.80650904, 6.70770952, 7.613691521, 8.536886357, 9.470937334, 10.45233069, 11.461024139, 12.51295332, 13.623444893, 14.776929983, 16, 16, 16, 16], degree=3))
            add(Edge.make_bspline(
                [(647.049257183, 298.54218845), (647.19164695, 298.499279419), (647.467865022, 298.416041346), (647.856360945, 298.265600017), (648.211652989, 298.111536308), (648.524185739, 297.936781388), (648.807636894, 297.762122504), (649.047122259, 297.564301324), (649.255235567, 297.361673563), (649.425188343, 297.135464734), (649.570253643, 296.882344437), (649.694827156, 296.586596707), (649.815179167, 296.247423665), (649.917667348, 295.859098311), (650.004750555, 295.423699276), (650.088222437, 294.944027189), (650.153853601, 294.416024546), (650.187587341, 294.048412906), (650.2051692, 293.856815525)],
                knots=[0, 0, 0, 0, 1.149282524, 2.229462177, 3.219229774, 4.139917433, 4.995948464, 5.788695735, 6.536448429, 7.236319808, 7.968460079, 8.78645307, 9.713791991, 10.749194692, 11.887975363, 13.146018663, 14.512518948, 16, 16, 16, 16], degree=3))
            add(Edge.make_bspline(
                [(650.2051692, 293.856815525), (650.225980287, 293.627849833), (650.265975604, 293.187817268), (650.348933081, 292.554613589), (650.44386163, 291.974357025), (650.555874504, 291.44528724), (650.681301216, 290.967898855), (650.821280597, 290.540469593), (650.979920039, 290.165788217), (651.10484481, 289.941461656), (651.163880062, 289.835452458)],
                knots=[0, 0, 0, 0, 1.324580516, 2.545615266, 3.678710841, 4.711533017, 5.660403917, 6.521349952, 7.301239649, 8, 8, 8, 8], degree=3))
            Line((651.163880062, 289.835452458), (645.213904094, 289.835452458))
            add(Edge.make_bspline(
                [(645.213904094, 289.835452458), (645.12229736, 290.069847279), (644.935171241, 290.548648246), (644.7595281, 291.319414791), (644.64846922, 292.142514735), (644.635117598, 292.70994511), (644.628232479, 293.002555653)],
                knots=[0, 0, 0, 0, 0.930410518, 1.900560147, 2.917368081, 4, 4, 4, 4], degree=3))
            Line((644.628232479, 293.002555653), (644.605850124, 294.002300831))
            Line((644.605850124, 294.002300831), (644.579737377, 295.266903874))
            add(Edge.make_bspline(
                [(644.579737377, 295.266903874), (644.573694669, 295.477395004), (644.562357007, 295.872330118), (644.469348432, 296.426164013), (644.30178735, 296.894645884), (644.073222546, 297.287223005), (643.766741442, 297.590613479), (643.39104803, 297.804152917), (642.950456912, 297.93396284), (642.634664848, 297.946292392), (642.468335247, 297.952786442)],
                knots=[0, 0, 0, 0, 1.295300309, 2.430314163, 3.439929415, 4.342995669, 5.203512789, 6.060756153, 6.978588463, 8, 8, 8, 8], degree=3))
            Line((642.468335247, 297.952786442), (642.106487178, 297.952786442))
            Line((642.106487178, 297.952786442), (642.106487178, 289.835452458))
            Line((642.106487178, 289.835452458), (636.376604366, 289.835452458))
        make_face()
        with BuildLine():
            Line((642.106487178, 299.862747379), (642.617550945, 299.862747379))
            add(Edge.make_bspline(
                [(642.617550945, 299.862747379), (642.722054451, 299.865172716), (642.925280724, 299.869889229), (643.220054897, 299.898289891), (643.494111408, 299.951809873), (643.749840966, 300.021017819), (643.984372137, 300.114851792), (644.200147241, 300.225818296), (644.391160406, 300.362685327), (644.565327067, 300.516342321), (644.718148635, 300.691986294), (644.850351299, 300.889034217), (644.961199162, 301.106225057), (645.056078491, 301.342818683), (645.125883912, 301.600830857), (645.173262731, 301.879472914), (645.203404658, 302.177423605), (645.207875435, 302.383174491), (645.210173702, 302.488943669)],
                knots=[0, 0, 0, 0, 1.184986479, 2.304423995, 3.352332712, 4.347714965, 5.303263624, 6.211353909, 7.091434645, 7.960150225, 8.839440182, 9.723126897, 10.64371617, 11.599264829, 12.608232147, 13.667459739, 14.800924404, 16, 16, 16, 16], degree=3))
            add(Edge.make_bspline(
                [(645.210173702, 302.488943669), (645.207875435, 302.594712847), (645.203404658, 302.800463732), (645.173262731, 303.098414423), (645.125883912, 303.37705648), (645.056078491, 303.635068654), (644.961199162, 303.87166228), (644.850351299, 304.08885312), (644.718148635, 304.285901043), (644.565327067, 304.461545017), (644.391160406, 304.61520201), (644.200147241, 304.752069041), (643.984372137, 304.863035546), (643.749840966, 304.956869518), (643.494111408, 305.026077464), (643.220054897, 305.079597446), (642.925280724, 305.107998108), (642.722054451, 305.112714621), (642.617550945, 305.115139958)],
                knots=[0, 0, 0, 0, 1.199075596, 2.332540261, 3.391767853, 4.400735171, 5.35628383, 6.276873103, 7.160559818, 8.039849775, 8.908565355, 9.788646091, 10.696736376, 11.652285035, 12.647667288, 13.695576005, 14.815013521, 16, 16, 16, 16], degree=3))
            Line((642.617550945, 305.115139958), (642.106487178, 305.115139958))
            Line((642.106487178, 305.115139958), (642.106487178, 299.862747379))
        make_face(mode=Mode.SUBTRACT)
    extrude(amount=BOSS_EXTRUDE4_DEPTH)


with BuildPart() as body_2:
    # Sketch11 → Boss-Extrude3 (new body)
    with BuildSketch(Plane.XY.offset(-100)):
        with Locations((255, 60)):
            Rectangle(SKETCH11_W, SKETCH11_H)
    extrude(amount=BOSS_EXTRUDE3_DEPTH)


with BuildPart() as body_3:
    # Sketch11 → Boss-Extrude3 2 (new body)
    with BuildSketch(Plane.XY.offset(-100)):
        with Locations((415, 60)):
            Rectangle(SKETCH11_W, SKETCH11_H)
    extrude(amount=BOSS_EXTRUDE3_2_DEPTH)


with BuildPart() as body_4:
    # Sketch11 → Boss-Extrude3 3 (new body)
    with BuildSketch(Plane.XY.offset(-100)):
        Polygon((25, 198.45686471), (325, 145.558770497), (325, 122.01775856), (345, 122.01775856), (345, 145.558770497), (645, 198.45686471), align=None)
    extrude(amount=BOSS_EXTRUDE3_3_DEPTH)

    # Sketch15 → Cut-Extrude7 (cut)
    with BuildSketch(Plane(origin=(345, 0, 0), x_dir=(0, 0, -1), z_dir=(1, 0, 0))):
        with Locations((35, 133.231921672)):
            Rectangle(SKETCH15_W, SKETCH15_H)
        with Locations((85, 130.506698154)):
            Rectangle(SKETCH15_W, SKETCH15_H_2)
    extrude(amount=-CUT_EXTRUDE7_DEPTH, mode=Mode.SUBTRACT)

    # Shell1
    shell1_openings = [body_4.faces().sort_by_distance(p)[0] for p in [
        (335, 198.45686471, -61),
    ]]
    offset(amount=SHELL1_T, openings=shell1_openings, kind=Kind.INTERSECTION)

    # Sketch16 → Cut-Extrude8 (cut)
    with BuildSketch(Plane.XZ.offset(-122.01775856)):
        with Locations((335, -60)):
            Rectangle(SKETCH16_W, SKETCH16_H)
    extrude(amount=-CUT_EXTRUDE8_DEPTH, mode=Mode.SUBTRACT)


with BuildPart() as cut_extrude10_tool:
    # Sketch18 → Cut-Extrude10 (new body)
    with BuildSketch(Plane.XY):
        with Locations((335, 140)):
            Rectangle(SKETCH18_W, SKETCH18_H)
    extrude(amount=-CUT_EXTRUDE10_DEPTH)


with BuildPart() as part_1:
    add(part.part)

    # Cut-Extrude10: cut by cut_extrude10_tool
    add(cut_extrude10_tool.part, mode=Mode.SUBTRACT)

    # Sketch19 → Cut-Extrude11 (cut, two sides: drawn at the far end of the back side and taken through both)
    with BuildSketch(Plane.XY.offset(-CUT_EXTRUDE11_DEPTH_BACK)):
        with Locations((392.5, 405)):
            Rectangle(SKETCH19_W, SKETCH19_H)
    extrude(amount=CUT_EXTRUDE11_DEPTH + CUT_EXTRUDE11_DEPTH_BACK, mode=Mode.SUBTRACT)

    # Sketch20 → Cut-Extrude12 (cut, two sides: drawn at the far end of the back side and taken through both)
    with BuildSketch(Plane.XY.offset(-CUT_EXTRUDE12_DEPTH_BACK)):
        with Locations((57.5, 342.5)):
            Rectangle(SKETCH20_W, SKETCH20_H)
    extrude(amount=CUT_EXTRUDE12_DEPTH + CUT_EXTRUDE12_DEPTH_BACK, mode=Mode.SUBTRACT)


with BuildPart() as body_2_1:
    add(body_2.part)

    # Cut-Extrude10: cut by cut_extrude10_tool
    add(cut_extrude10_tool.part, mode=Mode.SUBTRACT)


with BuildPart() as body_3_1:
    add(body_3.part)

    # Cut-Extrude10: cut by cut_extrude10_tool
    add(cut_extrude10_tool.part, mode=Mode.SUBTRACT)


with BuildPart() as body_4_1:
    add(body_4.part)

    # Cut-Extrude10: cut by cut_extrude10_tool
    add(cut_extrude10_tool.part, mode=Mode.SUBTRACT)


solid = part_1.part
